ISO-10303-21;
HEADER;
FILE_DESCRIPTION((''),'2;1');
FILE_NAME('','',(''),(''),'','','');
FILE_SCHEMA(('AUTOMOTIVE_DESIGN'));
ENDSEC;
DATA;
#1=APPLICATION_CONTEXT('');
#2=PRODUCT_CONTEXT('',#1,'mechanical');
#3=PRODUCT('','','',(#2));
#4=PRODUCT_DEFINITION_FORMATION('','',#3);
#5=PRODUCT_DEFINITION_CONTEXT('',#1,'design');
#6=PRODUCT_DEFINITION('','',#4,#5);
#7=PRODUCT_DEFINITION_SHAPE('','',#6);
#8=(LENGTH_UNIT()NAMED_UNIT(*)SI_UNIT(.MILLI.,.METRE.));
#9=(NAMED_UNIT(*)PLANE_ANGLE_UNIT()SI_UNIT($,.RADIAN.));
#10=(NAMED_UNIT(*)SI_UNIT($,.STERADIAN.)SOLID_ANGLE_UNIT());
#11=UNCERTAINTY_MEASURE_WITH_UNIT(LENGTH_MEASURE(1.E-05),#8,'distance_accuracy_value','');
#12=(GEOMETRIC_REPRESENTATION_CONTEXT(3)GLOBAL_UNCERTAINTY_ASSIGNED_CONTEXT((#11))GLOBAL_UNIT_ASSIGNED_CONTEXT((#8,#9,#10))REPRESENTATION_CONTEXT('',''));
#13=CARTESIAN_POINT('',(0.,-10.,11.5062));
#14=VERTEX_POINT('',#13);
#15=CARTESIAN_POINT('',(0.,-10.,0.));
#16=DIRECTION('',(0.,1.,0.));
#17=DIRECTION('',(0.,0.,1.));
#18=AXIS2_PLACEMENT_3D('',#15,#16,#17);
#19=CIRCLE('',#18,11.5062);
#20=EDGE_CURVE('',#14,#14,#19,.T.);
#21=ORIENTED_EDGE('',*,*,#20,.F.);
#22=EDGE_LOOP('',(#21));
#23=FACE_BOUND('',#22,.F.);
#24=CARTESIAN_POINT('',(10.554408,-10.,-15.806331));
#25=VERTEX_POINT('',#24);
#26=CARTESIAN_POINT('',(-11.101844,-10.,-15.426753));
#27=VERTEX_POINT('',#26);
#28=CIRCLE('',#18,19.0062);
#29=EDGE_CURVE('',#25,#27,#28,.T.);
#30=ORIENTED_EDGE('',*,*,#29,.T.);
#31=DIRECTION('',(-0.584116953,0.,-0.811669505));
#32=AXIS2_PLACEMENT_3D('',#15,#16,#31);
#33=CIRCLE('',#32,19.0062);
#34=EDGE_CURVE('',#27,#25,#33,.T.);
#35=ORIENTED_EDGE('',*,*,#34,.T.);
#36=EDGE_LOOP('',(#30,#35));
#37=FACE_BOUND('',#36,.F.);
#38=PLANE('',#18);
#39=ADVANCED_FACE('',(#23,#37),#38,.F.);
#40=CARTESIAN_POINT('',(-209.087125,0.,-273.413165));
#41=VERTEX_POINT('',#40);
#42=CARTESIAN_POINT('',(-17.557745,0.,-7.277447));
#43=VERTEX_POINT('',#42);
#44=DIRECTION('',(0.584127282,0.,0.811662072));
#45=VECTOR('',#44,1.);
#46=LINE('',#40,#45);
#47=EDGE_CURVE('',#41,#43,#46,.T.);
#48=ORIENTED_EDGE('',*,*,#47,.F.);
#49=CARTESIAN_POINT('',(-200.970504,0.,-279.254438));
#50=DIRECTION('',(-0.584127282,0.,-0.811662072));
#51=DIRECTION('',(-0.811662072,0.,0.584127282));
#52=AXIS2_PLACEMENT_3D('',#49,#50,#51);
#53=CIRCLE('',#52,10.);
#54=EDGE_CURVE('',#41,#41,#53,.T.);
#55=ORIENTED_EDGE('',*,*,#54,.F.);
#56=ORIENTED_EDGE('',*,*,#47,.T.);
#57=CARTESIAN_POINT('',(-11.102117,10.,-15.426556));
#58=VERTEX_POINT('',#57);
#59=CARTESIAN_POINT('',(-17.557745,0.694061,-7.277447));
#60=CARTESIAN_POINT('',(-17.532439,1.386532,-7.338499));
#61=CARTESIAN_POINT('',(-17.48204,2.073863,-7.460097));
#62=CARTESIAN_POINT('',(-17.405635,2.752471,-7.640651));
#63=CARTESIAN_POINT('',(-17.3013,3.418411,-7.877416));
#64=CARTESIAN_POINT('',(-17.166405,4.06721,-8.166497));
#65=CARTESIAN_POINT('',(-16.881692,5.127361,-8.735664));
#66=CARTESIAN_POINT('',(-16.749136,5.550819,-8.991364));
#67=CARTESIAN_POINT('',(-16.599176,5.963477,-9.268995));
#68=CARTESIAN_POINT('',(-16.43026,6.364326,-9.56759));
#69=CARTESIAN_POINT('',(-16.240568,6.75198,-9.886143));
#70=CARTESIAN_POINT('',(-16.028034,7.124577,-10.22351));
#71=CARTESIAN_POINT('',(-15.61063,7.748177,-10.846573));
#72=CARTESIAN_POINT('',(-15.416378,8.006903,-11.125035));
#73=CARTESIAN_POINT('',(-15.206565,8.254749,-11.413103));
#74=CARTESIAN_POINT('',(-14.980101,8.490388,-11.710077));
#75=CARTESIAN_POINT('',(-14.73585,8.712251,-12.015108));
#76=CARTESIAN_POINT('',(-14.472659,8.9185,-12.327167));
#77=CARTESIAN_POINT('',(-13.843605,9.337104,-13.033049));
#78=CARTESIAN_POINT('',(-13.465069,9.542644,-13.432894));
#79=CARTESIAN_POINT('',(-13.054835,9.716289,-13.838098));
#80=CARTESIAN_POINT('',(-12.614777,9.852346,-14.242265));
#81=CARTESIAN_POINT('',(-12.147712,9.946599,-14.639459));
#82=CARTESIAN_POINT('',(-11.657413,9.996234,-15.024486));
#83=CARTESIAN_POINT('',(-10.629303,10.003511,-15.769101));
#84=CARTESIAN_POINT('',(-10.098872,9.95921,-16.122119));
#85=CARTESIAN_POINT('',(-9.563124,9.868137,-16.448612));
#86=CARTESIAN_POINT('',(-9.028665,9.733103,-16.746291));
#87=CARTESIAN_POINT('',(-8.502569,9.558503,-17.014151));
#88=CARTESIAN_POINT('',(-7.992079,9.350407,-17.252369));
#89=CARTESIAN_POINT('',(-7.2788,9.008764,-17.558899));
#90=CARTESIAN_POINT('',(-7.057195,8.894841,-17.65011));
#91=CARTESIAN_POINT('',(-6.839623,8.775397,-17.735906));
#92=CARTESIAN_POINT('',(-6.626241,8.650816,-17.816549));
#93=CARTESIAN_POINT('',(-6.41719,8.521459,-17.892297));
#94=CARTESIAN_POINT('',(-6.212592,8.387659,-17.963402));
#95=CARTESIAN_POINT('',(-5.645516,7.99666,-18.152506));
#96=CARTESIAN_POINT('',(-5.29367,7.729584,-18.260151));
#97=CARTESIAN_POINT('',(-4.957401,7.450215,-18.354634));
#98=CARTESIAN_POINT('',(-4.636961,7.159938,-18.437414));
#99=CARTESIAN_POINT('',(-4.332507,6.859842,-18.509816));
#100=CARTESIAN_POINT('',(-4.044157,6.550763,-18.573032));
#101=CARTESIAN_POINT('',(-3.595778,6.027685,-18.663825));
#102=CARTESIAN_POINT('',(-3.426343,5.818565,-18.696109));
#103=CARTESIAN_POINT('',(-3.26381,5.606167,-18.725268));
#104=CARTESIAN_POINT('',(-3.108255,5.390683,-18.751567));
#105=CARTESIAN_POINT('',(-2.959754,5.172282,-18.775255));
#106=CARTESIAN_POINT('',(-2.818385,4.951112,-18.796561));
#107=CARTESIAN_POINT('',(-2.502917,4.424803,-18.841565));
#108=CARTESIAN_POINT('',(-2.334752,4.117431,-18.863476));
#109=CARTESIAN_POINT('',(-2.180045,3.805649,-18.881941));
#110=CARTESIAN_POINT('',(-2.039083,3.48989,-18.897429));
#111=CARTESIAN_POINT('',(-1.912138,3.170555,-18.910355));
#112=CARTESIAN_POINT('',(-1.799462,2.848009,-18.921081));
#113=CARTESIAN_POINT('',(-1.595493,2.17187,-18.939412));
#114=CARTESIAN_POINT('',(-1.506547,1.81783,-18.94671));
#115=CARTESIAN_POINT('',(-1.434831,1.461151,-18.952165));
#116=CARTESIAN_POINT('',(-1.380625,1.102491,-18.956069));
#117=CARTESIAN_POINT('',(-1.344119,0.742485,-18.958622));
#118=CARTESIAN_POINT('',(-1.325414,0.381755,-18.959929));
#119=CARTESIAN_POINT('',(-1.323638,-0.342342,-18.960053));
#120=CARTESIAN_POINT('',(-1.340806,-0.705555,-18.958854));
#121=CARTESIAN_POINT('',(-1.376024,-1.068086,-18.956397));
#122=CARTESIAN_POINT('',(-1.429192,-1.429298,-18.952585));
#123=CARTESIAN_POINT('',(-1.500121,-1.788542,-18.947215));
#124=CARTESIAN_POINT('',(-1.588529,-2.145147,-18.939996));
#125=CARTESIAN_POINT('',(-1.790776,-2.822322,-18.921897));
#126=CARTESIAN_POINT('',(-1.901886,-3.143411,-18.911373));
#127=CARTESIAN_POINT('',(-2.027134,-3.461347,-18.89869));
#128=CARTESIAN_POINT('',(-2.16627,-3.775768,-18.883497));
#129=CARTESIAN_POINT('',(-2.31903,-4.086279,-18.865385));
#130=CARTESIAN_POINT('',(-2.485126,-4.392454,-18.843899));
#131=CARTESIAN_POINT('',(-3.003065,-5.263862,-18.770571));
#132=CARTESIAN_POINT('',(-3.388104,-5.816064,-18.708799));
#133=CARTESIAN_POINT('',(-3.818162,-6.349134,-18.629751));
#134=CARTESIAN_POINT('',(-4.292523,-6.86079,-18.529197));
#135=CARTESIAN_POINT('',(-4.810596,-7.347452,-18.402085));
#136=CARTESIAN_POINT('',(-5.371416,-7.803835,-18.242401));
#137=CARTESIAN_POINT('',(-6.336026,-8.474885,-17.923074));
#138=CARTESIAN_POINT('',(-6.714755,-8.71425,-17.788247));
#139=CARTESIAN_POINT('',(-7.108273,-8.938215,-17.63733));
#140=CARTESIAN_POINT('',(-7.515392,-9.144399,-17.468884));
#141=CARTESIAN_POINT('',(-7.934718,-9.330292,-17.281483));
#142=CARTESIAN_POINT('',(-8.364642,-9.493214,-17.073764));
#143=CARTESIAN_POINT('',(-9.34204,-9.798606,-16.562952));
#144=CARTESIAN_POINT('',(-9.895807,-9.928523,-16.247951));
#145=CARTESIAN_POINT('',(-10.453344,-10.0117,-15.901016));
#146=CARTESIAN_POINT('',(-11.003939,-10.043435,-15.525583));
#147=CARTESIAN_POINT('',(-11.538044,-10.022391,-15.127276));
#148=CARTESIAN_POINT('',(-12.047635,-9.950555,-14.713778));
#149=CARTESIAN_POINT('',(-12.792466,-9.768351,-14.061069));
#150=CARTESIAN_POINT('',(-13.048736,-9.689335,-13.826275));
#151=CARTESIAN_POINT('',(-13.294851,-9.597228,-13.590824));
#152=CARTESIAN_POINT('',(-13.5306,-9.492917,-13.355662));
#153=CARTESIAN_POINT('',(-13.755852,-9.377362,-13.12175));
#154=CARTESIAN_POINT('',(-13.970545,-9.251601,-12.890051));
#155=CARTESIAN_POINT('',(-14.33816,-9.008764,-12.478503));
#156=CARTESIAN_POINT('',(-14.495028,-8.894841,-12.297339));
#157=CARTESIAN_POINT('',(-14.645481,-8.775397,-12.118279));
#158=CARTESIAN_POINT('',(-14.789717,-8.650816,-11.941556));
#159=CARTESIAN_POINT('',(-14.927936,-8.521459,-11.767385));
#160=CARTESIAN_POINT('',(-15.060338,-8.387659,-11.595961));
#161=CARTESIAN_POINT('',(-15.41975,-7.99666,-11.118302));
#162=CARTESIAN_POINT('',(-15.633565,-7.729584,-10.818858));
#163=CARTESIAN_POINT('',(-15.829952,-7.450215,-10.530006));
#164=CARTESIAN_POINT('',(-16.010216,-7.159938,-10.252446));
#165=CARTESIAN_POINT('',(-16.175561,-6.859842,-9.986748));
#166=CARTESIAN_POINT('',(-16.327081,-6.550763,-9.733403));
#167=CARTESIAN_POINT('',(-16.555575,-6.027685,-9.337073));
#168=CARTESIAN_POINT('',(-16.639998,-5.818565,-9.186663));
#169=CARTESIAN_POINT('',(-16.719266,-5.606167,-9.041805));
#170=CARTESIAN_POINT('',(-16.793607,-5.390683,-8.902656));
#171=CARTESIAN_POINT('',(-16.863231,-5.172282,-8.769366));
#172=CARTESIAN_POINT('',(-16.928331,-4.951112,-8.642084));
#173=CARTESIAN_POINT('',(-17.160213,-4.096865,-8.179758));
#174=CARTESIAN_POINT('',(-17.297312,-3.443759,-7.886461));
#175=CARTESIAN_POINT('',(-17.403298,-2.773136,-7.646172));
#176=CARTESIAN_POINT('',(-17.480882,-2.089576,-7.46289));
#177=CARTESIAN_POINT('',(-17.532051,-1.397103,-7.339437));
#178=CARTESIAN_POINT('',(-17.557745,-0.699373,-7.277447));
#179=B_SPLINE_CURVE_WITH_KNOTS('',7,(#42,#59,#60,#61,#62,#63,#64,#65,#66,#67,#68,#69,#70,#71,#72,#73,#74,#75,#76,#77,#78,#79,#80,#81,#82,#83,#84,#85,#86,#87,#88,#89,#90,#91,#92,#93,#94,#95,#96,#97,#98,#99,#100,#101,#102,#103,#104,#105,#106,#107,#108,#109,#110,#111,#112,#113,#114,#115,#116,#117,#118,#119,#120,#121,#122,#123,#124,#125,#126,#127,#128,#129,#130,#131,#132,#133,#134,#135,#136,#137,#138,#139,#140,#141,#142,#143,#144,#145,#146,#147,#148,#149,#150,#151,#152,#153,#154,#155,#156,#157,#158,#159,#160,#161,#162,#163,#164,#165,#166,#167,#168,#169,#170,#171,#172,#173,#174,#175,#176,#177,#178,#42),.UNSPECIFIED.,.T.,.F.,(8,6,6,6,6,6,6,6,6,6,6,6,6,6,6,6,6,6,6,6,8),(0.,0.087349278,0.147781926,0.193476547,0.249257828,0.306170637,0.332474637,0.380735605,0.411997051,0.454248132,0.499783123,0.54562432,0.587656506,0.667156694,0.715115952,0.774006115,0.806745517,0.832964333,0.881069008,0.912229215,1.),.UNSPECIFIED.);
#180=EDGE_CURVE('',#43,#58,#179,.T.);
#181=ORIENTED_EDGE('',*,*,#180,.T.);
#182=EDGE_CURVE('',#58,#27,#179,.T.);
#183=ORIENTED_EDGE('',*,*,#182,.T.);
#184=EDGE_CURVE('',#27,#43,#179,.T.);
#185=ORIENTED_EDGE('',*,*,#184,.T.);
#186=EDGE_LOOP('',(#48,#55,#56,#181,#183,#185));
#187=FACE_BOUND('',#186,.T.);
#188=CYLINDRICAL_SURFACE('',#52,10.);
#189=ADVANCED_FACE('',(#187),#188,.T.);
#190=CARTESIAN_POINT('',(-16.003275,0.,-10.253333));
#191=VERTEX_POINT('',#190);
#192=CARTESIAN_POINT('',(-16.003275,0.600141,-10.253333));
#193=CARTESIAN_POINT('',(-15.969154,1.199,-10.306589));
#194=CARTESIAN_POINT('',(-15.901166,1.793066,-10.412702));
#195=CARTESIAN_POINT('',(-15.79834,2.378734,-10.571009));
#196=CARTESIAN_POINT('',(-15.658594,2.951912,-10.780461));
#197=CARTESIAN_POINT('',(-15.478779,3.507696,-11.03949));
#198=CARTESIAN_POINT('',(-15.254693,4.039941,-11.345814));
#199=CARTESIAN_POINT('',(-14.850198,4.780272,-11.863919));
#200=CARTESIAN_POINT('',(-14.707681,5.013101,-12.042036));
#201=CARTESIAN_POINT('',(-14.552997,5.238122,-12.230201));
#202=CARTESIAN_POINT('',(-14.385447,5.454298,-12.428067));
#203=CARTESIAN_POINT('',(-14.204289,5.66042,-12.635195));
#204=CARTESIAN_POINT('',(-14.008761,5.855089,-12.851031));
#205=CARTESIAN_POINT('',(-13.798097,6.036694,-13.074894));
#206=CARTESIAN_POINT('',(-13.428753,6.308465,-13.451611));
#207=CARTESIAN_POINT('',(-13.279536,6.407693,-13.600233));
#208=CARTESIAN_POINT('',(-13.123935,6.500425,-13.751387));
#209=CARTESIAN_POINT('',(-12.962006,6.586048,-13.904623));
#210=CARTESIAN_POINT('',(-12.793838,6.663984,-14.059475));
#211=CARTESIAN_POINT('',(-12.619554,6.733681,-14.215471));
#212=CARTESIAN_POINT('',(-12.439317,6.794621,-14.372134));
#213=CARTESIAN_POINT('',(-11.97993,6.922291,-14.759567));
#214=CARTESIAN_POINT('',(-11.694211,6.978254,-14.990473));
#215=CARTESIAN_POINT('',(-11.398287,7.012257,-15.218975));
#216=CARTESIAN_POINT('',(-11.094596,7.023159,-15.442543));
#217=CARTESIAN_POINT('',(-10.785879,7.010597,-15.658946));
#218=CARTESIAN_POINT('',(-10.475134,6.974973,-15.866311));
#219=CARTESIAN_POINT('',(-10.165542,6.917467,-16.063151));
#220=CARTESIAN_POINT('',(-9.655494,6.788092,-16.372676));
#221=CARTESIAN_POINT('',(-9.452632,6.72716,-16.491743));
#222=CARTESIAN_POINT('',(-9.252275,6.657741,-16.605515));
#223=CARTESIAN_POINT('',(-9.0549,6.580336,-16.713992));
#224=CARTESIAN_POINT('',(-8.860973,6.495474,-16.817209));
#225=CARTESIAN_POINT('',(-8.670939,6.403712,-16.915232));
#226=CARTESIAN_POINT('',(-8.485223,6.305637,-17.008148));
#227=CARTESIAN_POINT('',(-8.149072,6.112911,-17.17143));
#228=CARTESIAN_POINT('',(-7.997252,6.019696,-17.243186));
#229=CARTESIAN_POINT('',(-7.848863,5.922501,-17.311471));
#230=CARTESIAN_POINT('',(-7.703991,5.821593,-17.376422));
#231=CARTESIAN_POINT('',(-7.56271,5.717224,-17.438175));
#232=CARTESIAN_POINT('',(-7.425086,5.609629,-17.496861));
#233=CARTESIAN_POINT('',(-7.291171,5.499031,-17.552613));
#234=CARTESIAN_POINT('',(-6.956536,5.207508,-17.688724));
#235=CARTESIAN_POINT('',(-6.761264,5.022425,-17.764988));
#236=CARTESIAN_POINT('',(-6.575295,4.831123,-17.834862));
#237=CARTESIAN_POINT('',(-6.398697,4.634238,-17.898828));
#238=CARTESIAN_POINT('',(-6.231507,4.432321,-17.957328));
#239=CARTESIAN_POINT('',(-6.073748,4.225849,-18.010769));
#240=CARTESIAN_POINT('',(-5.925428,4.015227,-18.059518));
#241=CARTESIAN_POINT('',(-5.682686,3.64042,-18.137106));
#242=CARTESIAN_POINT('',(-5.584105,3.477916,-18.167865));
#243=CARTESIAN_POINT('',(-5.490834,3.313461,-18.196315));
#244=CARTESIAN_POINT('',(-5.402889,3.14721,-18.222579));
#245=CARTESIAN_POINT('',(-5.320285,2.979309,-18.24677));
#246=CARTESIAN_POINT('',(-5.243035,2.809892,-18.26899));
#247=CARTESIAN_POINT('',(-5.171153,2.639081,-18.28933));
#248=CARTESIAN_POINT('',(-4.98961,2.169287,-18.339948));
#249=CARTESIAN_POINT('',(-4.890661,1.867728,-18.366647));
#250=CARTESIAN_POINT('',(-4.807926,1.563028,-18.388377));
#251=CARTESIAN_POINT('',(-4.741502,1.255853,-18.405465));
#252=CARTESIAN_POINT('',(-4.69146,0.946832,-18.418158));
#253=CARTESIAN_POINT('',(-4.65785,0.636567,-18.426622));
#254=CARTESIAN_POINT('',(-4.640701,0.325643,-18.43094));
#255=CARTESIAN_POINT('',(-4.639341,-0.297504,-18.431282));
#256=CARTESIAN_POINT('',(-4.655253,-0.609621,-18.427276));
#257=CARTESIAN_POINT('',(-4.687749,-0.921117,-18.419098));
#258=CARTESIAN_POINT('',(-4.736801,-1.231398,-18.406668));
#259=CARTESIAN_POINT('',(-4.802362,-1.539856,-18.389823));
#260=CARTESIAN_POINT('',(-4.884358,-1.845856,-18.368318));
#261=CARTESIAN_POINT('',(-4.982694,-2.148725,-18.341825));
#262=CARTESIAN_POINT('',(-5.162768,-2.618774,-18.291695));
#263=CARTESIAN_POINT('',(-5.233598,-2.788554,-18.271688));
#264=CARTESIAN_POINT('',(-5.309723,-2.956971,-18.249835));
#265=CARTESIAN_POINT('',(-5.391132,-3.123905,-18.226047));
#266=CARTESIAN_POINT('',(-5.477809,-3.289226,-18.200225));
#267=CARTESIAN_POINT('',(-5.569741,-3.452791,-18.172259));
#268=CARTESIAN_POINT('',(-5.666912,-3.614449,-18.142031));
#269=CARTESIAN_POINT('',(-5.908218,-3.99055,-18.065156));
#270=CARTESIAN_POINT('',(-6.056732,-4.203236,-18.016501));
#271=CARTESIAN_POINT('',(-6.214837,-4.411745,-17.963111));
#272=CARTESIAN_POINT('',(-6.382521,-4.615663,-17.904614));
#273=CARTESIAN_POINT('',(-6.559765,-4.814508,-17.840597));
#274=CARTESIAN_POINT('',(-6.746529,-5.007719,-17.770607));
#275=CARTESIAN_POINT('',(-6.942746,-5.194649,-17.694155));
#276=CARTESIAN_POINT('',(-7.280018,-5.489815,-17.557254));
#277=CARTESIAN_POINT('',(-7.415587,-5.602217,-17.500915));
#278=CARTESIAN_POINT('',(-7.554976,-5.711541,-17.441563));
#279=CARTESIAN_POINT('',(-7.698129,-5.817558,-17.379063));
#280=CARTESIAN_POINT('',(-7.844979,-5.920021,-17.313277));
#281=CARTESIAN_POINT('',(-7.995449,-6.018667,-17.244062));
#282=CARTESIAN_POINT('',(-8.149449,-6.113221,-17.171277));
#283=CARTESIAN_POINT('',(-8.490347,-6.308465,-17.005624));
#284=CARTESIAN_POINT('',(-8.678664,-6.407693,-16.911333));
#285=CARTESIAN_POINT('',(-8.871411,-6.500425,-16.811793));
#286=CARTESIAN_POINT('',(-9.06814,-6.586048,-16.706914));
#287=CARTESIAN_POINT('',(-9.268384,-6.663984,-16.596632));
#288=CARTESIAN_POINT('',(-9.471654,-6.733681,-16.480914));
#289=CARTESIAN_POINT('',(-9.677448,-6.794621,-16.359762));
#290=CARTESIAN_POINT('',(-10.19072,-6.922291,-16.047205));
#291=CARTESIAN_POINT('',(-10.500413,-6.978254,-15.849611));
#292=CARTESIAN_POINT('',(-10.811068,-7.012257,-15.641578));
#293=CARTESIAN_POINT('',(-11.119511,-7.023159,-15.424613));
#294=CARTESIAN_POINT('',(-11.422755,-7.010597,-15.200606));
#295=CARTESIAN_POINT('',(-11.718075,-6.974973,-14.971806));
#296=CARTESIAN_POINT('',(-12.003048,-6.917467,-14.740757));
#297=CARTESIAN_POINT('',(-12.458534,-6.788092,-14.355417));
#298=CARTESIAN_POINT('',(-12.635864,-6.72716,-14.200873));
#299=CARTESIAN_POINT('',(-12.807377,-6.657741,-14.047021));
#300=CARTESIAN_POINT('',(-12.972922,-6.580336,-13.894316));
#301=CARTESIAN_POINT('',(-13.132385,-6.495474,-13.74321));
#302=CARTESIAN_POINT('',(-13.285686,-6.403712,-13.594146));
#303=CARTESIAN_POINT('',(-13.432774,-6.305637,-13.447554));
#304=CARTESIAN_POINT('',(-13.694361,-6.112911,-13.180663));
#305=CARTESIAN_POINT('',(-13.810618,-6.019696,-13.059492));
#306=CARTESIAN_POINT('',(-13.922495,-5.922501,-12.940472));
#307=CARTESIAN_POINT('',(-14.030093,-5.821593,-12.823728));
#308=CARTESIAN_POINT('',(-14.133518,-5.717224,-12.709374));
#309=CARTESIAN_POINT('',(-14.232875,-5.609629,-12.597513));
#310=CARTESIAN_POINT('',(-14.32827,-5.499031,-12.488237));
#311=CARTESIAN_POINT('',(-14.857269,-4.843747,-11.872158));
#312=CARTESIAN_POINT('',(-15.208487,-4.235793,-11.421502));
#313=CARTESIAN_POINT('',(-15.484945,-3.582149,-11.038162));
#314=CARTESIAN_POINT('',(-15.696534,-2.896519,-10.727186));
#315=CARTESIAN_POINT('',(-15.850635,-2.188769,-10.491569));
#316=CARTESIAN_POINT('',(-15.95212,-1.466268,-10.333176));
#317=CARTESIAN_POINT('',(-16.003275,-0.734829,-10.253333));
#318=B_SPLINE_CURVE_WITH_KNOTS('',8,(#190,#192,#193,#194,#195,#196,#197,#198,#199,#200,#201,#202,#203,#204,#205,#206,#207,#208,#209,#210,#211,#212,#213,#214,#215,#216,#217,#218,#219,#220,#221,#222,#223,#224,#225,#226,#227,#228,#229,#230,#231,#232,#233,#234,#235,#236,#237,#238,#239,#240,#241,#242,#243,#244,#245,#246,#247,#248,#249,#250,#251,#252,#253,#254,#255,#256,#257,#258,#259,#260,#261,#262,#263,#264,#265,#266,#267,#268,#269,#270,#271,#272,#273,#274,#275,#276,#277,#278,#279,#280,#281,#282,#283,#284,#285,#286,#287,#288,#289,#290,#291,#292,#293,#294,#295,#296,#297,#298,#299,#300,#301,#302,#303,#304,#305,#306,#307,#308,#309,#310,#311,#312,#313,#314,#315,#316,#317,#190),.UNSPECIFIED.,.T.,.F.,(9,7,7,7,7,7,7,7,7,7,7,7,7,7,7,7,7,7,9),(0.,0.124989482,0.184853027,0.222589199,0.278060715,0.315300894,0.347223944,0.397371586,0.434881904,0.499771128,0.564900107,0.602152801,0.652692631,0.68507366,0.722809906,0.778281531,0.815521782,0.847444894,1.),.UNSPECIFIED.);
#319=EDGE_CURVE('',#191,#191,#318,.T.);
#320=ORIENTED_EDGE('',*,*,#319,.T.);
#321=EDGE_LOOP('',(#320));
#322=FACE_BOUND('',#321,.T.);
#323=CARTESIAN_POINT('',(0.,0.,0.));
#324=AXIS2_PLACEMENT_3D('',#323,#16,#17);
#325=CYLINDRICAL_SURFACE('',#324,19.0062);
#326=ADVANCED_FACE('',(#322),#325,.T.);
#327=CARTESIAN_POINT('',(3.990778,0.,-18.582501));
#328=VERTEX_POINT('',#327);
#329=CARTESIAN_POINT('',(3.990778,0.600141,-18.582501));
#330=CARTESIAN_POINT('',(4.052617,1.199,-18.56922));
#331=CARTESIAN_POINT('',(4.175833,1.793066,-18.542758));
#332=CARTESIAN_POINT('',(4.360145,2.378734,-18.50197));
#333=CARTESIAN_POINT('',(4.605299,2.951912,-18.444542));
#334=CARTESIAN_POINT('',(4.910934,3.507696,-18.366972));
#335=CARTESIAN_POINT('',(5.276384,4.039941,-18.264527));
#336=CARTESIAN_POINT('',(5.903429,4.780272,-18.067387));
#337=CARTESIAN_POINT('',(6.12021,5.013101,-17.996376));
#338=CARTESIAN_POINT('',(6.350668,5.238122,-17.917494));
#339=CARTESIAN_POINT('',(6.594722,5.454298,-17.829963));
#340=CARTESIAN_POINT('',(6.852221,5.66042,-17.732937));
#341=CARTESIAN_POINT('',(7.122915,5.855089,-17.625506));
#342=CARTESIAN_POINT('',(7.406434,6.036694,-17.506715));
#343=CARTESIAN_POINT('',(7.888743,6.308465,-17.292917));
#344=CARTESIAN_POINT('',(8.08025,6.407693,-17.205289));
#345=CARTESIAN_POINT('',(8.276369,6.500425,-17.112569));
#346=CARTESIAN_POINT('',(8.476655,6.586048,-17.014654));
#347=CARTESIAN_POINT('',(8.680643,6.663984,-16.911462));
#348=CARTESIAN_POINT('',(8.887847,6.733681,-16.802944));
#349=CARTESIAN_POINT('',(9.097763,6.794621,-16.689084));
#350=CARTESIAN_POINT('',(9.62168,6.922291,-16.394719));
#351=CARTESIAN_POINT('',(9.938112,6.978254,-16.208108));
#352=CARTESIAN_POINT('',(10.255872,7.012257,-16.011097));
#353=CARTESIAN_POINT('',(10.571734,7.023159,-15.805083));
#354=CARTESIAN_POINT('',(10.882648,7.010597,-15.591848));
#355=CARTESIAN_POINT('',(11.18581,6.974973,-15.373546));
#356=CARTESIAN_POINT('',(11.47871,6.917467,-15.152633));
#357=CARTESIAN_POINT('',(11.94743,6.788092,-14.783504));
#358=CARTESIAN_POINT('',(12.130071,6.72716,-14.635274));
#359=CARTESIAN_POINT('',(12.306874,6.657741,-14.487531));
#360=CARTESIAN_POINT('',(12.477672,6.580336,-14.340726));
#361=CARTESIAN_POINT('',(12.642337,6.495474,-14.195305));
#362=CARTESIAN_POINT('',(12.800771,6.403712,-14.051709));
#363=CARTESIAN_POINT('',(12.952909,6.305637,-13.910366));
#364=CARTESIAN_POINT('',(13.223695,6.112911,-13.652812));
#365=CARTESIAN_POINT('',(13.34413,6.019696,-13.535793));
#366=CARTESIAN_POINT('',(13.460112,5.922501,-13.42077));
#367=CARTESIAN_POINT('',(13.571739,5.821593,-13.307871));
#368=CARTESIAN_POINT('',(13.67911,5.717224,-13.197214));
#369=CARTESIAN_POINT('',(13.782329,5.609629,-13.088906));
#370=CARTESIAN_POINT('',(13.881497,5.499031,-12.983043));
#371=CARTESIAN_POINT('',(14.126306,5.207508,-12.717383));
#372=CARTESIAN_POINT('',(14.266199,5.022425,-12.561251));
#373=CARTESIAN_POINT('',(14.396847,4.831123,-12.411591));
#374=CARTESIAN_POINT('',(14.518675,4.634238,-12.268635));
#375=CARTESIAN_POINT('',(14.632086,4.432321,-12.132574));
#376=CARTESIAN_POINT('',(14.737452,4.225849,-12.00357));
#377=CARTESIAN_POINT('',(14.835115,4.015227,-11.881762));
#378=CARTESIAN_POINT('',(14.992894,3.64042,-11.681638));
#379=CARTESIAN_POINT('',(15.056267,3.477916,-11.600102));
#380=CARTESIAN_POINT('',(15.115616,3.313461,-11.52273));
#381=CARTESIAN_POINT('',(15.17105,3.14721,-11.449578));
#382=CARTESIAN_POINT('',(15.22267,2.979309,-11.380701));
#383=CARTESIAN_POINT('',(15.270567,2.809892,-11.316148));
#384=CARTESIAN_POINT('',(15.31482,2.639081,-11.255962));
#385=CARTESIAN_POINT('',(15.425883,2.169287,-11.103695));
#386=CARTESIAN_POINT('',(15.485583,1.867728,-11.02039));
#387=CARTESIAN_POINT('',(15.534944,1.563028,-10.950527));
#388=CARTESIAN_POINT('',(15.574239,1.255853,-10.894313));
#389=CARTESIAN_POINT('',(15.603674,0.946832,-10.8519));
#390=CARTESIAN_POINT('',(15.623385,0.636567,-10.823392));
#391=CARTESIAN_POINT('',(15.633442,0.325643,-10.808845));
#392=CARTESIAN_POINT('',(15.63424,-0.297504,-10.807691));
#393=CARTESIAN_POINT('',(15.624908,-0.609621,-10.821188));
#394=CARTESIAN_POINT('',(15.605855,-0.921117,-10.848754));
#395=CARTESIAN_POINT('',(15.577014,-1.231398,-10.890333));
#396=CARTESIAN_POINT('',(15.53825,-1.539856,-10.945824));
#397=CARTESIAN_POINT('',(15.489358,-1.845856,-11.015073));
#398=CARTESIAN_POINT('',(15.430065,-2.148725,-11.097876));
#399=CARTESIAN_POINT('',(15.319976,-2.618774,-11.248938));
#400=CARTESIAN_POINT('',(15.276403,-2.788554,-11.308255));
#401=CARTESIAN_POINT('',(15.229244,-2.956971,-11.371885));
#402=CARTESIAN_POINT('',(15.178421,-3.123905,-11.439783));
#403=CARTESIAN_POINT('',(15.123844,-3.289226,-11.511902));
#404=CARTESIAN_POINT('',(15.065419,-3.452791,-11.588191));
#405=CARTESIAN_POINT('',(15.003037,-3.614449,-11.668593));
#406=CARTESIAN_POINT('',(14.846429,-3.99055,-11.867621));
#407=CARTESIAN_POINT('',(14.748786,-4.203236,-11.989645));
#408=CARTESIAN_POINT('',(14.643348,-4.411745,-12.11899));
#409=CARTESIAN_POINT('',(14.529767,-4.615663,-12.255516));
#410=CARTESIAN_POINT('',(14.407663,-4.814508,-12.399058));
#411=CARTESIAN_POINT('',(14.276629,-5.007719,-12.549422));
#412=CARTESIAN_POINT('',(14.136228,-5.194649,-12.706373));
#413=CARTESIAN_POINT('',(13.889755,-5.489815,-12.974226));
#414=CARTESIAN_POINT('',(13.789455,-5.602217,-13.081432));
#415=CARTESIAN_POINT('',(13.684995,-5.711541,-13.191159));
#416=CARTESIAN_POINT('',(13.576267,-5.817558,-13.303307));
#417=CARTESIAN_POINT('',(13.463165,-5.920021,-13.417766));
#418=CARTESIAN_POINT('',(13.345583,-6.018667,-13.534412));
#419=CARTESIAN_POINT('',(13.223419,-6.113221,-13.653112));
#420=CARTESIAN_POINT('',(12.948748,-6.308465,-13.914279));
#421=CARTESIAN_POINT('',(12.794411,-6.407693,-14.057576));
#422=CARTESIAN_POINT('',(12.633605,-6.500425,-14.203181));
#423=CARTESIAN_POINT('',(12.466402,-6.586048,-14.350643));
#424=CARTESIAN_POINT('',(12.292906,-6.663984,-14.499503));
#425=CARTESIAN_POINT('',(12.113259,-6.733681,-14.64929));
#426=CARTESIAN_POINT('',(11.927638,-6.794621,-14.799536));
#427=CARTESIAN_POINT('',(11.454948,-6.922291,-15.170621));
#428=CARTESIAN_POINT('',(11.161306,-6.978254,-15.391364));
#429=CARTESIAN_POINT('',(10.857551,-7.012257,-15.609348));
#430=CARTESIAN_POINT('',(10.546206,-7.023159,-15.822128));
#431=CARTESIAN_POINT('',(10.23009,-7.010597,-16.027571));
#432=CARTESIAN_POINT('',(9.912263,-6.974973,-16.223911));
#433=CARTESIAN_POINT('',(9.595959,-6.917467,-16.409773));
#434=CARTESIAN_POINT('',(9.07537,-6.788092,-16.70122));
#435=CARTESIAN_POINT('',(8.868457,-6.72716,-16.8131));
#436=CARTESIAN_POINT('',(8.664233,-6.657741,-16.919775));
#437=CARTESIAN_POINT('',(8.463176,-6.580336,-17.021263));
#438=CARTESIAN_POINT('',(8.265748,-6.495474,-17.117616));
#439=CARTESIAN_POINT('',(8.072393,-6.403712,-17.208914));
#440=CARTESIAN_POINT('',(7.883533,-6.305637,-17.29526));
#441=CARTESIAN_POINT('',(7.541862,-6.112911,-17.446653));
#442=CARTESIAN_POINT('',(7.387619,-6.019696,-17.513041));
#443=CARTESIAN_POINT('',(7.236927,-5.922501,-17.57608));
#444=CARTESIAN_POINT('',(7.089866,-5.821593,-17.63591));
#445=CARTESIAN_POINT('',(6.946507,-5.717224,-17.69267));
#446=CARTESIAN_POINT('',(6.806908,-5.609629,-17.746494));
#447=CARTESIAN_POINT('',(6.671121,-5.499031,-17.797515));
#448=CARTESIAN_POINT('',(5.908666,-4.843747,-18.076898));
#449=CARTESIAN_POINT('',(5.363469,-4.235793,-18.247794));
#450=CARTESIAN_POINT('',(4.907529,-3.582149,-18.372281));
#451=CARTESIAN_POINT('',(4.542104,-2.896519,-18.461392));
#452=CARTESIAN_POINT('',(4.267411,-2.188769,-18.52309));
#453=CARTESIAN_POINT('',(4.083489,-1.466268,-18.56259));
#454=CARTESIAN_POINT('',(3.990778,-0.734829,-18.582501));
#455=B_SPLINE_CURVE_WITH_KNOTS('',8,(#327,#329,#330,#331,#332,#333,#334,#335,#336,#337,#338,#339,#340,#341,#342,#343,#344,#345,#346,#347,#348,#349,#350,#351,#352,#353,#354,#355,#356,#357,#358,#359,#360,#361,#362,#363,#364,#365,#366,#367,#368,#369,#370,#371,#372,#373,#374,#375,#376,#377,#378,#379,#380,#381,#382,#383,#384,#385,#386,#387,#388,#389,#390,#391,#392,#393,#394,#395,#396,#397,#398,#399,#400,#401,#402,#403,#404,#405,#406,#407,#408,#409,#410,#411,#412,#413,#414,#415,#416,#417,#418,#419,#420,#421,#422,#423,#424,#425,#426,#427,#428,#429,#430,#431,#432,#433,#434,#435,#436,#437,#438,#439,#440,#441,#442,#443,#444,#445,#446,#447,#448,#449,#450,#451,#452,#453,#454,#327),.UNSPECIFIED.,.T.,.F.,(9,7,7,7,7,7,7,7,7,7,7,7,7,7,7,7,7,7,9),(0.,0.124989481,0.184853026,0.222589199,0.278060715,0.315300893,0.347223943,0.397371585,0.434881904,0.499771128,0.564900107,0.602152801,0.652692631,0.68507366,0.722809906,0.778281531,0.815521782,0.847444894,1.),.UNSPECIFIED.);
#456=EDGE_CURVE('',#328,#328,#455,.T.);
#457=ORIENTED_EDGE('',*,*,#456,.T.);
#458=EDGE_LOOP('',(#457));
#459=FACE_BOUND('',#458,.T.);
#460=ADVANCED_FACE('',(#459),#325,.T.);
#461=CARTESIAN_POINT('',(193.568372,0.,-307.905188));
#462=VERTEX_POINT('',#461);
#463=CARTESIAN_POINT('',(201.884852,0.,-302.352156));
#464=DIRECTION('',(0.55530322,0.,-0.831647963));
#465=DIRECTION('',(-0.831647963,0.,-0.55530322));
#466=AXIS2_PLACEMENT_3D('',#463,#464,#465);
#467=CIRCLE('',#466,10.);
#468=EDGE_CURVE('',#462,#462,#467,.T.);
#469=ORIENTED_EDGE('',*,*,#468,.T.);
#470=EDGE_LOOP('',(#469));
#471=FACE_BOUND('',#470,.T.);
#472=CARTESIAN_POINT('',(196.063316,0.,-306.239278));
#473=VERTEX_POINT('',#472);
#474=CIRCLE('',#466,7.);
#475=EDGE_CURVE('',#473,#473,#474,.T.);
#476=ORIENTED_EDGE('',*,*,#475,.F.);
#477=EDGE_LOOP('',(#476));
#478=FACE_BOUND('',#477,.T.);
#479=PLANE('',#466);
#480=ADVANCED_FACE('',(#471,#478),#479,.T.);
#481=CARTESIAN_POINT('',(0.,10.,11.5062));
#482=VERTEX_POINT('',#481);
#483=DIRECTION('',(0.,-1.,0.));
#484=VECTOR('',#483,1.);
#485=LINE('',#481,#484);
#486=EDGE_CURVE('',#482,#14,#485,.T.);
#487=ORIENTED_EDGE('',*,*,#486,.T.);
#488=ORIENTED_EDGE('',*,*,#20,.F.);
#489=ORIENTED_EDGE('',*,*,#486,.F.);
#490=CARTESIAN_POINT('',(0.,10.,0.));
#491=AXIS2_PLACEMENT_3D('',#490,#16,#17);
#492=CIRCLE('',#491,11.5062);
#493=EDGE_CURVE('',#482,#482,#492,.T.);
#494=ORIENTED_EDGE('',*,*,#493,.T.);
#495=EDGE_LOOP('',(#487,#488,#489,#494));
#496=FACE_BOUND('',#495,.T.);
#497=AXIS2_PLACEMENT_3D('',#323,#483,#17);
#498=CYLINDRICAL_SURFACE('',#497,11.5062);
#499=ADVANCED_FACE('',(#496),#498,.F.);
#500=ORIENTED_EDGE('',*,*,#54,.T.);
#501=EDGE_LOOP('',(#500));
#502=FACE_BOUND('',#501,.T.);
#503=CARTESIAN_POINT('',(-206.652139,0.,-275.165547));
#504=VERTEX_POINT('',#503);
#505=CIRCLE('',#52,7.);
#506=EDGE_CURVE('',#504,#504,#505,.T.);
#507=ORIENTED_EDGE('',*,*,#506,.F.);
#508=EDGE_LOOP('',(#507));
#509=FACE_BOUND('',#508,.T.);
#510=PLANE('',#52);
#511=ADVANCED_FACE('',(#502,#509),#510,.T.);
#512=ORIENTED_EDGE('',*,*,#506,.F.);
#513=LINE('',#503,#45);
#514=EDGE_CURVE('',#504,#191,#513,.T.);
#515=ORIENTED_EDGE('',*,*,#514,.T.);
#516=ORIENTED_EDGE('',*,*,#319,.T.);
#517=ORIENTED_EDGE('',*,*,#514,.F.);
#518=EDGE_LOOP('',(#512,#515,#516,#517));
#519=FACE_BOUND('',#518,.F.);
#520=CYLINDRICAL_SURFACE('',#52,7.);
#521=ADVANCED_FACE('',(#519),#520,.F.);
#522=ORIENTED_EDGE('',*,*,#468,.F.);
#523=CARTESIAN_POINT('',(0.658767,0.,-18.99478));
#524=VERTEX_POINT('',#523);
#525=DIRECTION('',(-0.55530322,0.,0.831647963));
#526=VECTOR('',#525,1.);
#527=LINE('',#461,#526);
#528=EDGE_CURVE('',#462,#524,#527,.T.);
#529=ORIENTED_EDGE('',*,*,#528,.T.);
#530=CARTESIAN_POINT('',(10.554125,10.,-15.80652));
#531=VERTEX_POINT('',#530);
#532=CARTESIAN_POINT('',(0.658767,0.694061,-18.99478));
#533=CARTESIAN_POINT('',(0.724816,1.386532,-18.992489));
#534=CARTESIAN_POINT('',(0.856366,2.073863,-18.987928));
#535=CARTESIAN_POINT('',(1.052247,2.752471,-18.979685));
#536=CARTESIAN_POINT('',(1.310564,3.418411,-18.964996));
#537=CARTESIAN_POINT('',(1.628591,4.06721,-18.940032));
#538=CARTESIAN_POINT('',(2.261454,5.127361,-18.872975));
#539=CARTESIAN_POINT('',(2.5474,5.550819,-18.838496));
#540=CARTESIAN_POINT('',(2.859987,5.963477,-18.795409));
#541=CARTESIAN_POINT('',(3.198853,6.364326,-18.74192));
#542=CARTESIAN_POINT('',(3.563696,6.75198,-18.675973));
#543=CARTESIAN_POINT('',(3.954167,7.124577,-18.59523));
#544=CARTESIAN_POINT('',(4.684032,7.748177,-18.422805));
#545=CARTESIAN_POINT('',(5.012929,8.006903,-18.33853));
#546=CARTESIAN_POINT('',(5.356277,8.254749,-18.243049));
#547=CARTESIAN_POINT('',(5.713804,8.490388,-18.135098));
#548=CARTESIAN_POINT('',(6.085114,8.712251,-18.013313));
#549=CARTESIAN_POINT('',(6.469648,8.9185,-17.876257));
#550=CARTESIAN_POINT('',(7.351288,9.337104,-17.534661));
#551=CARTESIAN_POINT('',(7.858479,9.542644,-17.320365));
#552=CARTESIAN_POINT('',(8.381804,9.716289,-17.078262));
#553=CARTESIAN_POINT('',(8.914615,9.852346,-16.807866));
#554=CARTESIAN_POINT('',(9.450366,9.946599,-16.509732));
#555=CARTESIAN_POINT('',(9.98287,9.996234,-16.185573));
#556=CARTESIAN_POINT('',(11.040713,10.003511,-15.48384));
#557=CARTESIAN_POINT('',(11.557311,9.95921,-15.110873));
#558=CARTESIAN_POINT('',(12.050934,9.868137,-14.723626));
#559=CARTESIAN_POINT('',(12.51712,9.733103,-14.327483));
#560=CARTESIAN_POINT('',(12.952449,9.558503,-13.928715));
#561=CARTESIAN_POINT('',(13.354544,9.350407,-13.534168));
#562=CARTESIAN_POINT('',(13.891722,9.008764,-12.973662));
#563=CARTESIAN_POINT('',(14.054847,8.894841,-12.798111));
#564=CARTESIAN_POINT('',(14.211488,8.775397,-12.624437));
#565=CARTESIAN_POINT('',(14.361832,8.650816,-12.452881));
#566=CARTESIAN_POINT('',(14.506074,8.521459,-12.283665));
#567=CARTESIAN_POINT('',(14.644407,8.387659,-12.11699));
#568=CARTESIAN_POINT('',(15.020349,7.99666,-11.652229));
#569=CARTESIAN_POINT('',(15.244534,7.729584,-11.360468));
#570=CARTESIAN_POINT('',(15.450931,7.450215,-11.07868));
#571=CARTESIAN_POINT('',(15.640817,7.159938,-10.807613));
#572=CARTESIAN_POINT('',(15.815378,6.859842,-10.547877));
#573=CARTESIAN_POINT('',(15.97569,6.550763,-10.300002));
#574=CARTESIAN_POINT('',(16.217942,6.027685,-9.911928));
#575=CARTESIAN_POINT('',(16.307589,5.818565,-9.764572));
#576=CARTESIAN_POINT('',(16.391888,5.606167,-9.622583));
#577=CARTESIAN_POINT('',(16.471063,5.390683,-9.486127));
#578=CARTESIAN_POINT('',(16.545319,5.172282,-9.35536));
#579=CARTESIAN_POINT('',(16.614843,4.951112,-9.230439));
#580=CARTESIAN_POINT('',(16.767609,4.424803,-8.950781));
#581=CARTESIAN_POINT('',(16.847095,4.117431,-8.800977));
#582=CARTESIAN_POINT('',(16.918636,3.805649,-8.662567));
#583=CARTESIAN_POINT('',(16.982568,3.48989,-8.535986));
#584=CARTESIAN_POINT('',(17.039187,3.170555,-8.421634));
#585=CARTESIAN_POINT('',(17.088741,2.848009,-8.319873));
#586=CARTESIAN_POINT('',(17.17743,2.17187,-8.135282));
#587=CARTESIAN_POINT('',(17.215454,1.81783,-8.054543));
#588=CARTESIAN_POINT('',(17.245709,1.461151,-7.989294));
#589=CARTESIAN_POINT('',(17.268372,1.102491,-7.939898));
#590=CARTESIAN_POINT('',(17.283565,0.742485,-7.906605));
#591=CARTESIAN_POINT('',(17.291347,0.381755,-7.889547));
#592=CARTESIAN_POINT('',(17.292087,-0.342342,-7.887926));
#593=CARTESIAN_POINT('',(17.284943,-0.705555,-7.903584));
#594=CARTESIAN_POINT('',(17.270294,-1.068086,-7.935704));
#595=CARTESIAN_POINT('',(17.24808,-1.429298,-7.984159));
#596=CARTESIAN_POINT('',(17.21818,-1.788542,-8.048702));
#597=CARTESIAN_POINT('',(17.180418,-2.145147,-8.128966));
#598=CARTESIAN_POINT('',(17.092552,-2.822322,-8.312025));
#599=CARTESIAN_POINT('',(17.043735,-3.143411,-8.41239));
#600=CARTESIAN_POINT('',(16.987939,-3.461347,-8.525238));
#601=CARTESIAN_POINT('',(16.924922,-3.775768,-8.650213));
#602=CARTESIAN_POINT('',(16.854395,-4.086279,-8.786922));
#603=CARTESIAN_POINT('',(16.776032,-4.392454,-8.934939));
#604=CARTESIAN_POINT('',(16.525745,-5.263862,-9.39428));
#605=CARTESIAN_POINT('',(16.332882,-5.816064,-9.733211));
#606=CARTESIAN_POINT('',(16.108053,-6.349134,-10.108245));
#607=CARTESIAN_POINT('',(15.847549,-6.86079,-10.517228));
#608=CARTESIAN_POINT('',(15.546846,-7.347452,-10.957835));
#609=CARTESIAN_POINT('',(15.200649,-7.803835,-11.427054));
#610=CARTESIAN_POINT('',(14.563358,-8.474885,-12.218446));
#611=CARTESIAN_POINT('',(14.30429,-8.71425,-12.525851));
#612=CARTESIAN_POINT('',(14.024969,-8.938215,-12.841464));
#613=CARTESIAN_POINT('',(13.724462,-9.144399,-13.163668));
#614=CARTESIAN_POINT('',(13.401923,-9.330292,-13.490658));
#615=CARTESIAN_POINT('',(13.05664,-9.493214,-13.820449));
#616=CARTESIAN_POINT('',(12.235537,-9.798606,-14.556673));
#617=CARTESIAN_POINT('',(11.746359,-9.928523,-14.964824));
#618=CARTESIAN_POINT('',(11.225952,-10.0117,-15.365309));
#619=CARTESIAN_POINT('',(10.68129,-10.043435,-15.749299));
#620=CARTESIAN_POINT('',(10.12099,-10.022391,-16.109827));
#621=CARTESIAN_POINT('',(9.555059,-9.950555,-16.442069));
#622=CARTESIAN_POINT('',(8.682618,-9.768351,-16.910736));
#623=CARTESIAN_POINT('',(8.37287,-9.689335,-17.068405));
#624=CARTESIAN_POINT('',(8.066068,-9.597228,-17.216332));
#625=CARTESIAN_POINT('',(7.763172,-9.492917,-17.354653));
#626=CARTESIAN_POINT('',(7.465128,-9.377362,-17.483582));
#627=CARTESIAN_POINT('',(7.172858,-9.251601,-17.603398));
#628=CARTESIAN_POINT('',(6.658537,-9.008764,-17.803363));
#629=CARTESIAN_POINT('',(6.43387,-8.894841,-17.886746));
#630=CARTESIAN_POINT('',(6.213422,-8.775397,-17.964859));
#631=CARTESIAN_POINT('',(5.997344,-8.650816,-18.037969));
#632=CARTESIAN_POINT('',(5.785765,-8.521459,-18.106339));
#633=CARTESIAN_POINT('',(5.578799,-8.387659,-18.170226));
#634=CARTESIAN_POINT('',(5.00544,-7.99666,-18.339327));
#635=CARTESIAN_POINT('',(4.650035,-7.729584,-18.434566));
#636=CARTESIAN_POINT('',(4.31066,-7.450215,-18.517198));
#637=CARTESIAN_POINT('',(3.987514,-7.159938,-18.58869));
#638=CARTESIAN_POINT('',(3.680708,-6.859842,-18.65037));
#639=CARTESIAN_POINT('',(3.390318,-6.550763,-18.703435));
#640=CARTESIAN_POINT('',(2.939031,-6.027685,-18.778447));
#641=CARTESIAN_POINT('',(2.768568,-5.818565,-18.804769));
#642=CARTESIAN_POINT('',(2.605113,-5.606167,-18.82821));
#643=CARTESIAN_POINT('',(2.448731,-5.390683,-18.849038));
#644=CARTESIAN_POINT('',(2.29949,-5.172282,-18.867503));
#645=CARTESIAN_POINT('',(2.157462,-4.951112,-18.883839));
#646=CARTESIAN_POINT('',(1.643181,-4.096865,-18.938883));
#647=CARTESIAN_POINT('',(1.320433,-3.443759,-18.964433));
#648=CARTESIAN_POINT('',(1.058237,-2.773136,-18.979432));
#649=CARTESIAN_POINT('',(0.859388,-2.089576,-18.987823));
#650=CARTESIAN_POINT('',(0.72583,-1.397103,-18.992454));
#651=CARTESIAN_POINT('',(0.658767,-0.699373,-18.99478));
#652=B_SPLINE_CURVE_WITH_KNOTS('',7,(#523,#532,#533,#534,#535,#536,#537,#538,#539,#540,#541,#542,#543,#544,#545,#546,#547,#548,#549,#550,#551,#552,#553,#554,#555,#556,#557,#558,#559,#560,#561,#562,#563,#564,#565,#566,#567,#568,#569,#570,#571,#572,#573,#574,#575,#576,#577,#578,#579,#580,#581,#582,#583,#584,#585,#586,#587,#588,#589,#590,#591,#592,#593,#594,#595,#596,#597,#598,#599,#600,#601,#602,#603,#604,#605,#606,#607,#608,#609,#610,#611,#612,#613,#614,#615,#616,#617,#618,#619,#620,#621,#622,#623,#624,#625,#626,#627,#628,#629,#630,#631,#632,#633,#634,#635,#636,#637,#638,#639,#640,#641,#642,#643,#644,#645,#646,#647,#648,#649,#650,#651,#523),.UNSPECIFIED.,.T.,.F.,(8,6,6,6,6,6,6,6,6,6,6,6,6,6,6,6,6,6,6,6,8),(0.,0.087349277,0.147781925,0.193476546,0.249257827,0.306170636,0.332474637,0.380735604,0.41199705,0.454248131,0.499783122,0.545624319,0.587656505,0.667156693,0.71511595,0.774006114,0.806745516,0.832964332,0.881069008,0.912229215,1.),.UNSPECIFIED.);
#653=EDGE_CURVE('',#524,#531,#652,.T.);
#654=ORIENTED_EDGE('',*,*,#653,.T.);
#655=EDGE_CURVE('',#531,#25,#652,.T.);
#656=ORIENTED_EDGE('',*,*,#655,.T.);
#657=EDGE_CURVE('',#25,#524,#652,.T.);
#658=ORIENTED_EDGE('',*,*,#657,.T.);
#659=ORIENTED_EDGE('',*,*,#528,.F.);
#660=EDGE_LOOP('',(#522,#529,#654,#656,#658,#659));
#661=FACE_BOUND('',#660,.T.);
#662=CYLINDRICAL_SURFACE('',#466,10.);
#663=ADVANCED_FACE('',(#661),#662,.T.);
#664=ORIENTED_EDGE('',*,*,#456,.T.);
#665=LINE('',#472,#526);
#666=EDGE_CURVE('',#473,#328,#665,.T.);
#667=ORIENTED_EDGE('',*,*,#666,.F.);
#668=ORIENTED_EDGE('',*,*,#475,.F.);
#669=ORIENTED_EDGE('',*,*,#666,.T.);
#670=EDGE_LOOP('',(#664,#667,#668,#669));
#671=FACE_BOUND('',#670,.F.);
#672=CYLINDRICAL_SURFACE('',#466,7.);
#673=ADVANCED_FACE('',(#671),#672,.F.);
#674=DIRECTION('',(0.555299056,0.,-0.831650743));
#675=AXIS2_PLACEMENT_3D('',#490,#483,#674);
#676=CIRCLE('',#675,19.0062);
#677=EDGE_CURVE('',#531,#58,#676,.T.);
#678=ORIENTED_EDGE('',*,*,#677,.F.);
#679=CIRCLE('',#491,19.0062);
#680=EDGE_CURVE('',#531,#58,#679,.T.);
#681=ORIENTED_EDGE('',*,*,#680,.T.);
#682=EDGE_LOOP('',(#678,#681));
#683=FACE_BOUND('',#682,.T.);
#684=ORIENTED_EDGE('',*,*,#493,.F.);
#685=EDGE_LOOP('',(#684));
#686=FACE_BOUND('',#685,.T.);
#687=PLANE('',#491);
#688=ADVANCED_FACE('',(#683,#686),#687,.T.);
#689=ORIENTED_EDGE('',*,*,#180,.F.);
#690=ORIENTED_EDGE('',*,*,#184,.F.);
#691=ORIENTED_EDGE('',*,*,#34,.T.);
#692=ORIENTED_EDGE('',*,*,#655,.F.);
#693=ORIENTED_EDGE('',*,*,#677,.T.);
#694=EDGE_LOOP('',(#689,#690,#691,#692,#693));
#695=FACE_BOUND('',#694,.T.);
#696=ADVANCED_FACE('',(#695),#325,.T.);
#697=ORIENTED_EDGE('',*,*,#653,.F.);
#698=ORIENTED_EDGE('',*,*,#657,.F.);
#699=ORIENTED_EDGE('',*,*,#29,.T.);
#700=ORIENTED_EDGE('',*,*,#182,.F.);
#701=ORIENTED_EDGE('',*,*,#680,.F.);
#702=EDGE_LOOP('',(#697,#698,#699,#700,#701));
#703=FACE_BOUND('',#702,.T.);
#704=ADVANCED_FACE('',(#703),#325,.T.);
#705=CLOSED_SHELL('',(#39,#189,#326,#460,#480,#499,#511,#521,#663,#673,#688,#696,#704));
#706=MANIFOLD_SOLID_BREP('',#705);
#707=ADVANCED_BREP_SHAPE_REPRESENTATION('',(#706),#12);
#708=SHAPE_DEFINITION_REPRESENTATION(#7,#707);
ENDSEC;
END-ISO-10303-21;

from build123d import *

# Parameters (mm, degrees)
SKETCH1_R                = 19.0062
SKETCH1_R_2              = 11.5062
BOSS_EXTRUDE1_DEPTH      = 10
BOSS_EXTRUDE2_REACH      = 392.082
BOSS_EXTRUDE2_END_RADIUS = 19.0062
SKETCH5_R                = 10
SKETCH5_R_2              = 7
BOSS_EXTRUDE3_REACH      = 510.057
BOSS_EXTRUDE3_END_RADIUS = 19.0062
SKETCH6_R                = 10
SKETCH6_R_2              = 7


with BuildPart() as part:
    # Sketch1 → Boss-Extrude1 (new, symmetric)
    with BuildSketch(Plane(origin=(0, 0, 0), x_dir=(1, 0, 0), z_dir=(0, 1, 0))):
        with Locations(Location((0, 0, 0), (0, 0, 270))):
            Circle(SKETCH1_R)
        with Locations(Location((0, 0, 0), (0, 0, 270))):
            Circle(SKETCH1_R_2, mode=Mode.SUBTRACT)
    extrude(amount=BOSS_EXTRUDE1_DEPTH, both=True)

    # Boss-Extrude2: up to this cylinder (the profile starts outside it)
    boss_extrude2_end = Plane(origin=(0, 0, 0), z_dir=(0, -1, 0)) * Cylinder(BOSS_EXTRUDE2_END_RADIUS, 823.1764, mode=Mode.PRIVATE)
    # Sketch5 → Boss-Extrude2 (add, up to the surface)
    with BuildSketch(Plane(origin=(201.884851726, 0, -302.352155823), x_dir=(0.8316479627965052, 0, 0.555303219850581), z_dir=(0.555303219850581, 0, -0.8316479627965052)), mode=Mode.PRIVATE) as boss_extrude2_sk1:
        with Locations(Location((0, 0, 0), (0, 0, 180))):
            Circle(SKETCH5_R)
        with Locations(Location((0, 0, 0), (0, 0, 180))):
            Circle(SKETCH5_R_2, mode=Mode.SUBTRACT)
    boss_extrude2_tool1 = extrude(boss_extrude2_sk1.sketch, amount=-BOSS_EXTRUDE2_REACH, mode=Mode.PRIVATE) - boss_extrude2_end
    add(boss_extrude2_tool1.solids().sort_by_distance((209.966106, 0, -296.956187))[0])

    # Boss-Extrude3: up to this cylinder (the profile starts outside it)
    boss_extrude3_end = Plane(origin=(0, 0, 0), z_dir=(0, -1, 0)) * Cylinder(BOSS_EXTRUDE3_END_RADIUS, 1059.1264, mode=Mode.PRIVATE)
    # Sketch6 → Boss-Extrude3 (add, up to the surface)
    with BuildSketch(Plane(origin=(-200.97050419, 0, -279.254437795), x_dir=(-0.811662071535183, 0, 0.5841272820466578), z_dir=(-0.5841272820466578, 0, -0.811662071535183)), mode=Mode.PRIVATE) as boss_extrude3_sk1:
        Circle(SKETCH6_R)
        Circle(SKETCH6_R_2, mode=Mode.SUBTRACT)
    boss_extrude3_tool1 = extrude(boss_extrude3_sk1.sketch, amount=-BOSS_EXTRUDE3_REACH, mode=Mode.PRIVATE) - boss_extrude3_end
    add(boss_extrude3_tool1.solids().sort_by_distance((-193.083456, 0, -284.930494))[0])


solid = part.part
